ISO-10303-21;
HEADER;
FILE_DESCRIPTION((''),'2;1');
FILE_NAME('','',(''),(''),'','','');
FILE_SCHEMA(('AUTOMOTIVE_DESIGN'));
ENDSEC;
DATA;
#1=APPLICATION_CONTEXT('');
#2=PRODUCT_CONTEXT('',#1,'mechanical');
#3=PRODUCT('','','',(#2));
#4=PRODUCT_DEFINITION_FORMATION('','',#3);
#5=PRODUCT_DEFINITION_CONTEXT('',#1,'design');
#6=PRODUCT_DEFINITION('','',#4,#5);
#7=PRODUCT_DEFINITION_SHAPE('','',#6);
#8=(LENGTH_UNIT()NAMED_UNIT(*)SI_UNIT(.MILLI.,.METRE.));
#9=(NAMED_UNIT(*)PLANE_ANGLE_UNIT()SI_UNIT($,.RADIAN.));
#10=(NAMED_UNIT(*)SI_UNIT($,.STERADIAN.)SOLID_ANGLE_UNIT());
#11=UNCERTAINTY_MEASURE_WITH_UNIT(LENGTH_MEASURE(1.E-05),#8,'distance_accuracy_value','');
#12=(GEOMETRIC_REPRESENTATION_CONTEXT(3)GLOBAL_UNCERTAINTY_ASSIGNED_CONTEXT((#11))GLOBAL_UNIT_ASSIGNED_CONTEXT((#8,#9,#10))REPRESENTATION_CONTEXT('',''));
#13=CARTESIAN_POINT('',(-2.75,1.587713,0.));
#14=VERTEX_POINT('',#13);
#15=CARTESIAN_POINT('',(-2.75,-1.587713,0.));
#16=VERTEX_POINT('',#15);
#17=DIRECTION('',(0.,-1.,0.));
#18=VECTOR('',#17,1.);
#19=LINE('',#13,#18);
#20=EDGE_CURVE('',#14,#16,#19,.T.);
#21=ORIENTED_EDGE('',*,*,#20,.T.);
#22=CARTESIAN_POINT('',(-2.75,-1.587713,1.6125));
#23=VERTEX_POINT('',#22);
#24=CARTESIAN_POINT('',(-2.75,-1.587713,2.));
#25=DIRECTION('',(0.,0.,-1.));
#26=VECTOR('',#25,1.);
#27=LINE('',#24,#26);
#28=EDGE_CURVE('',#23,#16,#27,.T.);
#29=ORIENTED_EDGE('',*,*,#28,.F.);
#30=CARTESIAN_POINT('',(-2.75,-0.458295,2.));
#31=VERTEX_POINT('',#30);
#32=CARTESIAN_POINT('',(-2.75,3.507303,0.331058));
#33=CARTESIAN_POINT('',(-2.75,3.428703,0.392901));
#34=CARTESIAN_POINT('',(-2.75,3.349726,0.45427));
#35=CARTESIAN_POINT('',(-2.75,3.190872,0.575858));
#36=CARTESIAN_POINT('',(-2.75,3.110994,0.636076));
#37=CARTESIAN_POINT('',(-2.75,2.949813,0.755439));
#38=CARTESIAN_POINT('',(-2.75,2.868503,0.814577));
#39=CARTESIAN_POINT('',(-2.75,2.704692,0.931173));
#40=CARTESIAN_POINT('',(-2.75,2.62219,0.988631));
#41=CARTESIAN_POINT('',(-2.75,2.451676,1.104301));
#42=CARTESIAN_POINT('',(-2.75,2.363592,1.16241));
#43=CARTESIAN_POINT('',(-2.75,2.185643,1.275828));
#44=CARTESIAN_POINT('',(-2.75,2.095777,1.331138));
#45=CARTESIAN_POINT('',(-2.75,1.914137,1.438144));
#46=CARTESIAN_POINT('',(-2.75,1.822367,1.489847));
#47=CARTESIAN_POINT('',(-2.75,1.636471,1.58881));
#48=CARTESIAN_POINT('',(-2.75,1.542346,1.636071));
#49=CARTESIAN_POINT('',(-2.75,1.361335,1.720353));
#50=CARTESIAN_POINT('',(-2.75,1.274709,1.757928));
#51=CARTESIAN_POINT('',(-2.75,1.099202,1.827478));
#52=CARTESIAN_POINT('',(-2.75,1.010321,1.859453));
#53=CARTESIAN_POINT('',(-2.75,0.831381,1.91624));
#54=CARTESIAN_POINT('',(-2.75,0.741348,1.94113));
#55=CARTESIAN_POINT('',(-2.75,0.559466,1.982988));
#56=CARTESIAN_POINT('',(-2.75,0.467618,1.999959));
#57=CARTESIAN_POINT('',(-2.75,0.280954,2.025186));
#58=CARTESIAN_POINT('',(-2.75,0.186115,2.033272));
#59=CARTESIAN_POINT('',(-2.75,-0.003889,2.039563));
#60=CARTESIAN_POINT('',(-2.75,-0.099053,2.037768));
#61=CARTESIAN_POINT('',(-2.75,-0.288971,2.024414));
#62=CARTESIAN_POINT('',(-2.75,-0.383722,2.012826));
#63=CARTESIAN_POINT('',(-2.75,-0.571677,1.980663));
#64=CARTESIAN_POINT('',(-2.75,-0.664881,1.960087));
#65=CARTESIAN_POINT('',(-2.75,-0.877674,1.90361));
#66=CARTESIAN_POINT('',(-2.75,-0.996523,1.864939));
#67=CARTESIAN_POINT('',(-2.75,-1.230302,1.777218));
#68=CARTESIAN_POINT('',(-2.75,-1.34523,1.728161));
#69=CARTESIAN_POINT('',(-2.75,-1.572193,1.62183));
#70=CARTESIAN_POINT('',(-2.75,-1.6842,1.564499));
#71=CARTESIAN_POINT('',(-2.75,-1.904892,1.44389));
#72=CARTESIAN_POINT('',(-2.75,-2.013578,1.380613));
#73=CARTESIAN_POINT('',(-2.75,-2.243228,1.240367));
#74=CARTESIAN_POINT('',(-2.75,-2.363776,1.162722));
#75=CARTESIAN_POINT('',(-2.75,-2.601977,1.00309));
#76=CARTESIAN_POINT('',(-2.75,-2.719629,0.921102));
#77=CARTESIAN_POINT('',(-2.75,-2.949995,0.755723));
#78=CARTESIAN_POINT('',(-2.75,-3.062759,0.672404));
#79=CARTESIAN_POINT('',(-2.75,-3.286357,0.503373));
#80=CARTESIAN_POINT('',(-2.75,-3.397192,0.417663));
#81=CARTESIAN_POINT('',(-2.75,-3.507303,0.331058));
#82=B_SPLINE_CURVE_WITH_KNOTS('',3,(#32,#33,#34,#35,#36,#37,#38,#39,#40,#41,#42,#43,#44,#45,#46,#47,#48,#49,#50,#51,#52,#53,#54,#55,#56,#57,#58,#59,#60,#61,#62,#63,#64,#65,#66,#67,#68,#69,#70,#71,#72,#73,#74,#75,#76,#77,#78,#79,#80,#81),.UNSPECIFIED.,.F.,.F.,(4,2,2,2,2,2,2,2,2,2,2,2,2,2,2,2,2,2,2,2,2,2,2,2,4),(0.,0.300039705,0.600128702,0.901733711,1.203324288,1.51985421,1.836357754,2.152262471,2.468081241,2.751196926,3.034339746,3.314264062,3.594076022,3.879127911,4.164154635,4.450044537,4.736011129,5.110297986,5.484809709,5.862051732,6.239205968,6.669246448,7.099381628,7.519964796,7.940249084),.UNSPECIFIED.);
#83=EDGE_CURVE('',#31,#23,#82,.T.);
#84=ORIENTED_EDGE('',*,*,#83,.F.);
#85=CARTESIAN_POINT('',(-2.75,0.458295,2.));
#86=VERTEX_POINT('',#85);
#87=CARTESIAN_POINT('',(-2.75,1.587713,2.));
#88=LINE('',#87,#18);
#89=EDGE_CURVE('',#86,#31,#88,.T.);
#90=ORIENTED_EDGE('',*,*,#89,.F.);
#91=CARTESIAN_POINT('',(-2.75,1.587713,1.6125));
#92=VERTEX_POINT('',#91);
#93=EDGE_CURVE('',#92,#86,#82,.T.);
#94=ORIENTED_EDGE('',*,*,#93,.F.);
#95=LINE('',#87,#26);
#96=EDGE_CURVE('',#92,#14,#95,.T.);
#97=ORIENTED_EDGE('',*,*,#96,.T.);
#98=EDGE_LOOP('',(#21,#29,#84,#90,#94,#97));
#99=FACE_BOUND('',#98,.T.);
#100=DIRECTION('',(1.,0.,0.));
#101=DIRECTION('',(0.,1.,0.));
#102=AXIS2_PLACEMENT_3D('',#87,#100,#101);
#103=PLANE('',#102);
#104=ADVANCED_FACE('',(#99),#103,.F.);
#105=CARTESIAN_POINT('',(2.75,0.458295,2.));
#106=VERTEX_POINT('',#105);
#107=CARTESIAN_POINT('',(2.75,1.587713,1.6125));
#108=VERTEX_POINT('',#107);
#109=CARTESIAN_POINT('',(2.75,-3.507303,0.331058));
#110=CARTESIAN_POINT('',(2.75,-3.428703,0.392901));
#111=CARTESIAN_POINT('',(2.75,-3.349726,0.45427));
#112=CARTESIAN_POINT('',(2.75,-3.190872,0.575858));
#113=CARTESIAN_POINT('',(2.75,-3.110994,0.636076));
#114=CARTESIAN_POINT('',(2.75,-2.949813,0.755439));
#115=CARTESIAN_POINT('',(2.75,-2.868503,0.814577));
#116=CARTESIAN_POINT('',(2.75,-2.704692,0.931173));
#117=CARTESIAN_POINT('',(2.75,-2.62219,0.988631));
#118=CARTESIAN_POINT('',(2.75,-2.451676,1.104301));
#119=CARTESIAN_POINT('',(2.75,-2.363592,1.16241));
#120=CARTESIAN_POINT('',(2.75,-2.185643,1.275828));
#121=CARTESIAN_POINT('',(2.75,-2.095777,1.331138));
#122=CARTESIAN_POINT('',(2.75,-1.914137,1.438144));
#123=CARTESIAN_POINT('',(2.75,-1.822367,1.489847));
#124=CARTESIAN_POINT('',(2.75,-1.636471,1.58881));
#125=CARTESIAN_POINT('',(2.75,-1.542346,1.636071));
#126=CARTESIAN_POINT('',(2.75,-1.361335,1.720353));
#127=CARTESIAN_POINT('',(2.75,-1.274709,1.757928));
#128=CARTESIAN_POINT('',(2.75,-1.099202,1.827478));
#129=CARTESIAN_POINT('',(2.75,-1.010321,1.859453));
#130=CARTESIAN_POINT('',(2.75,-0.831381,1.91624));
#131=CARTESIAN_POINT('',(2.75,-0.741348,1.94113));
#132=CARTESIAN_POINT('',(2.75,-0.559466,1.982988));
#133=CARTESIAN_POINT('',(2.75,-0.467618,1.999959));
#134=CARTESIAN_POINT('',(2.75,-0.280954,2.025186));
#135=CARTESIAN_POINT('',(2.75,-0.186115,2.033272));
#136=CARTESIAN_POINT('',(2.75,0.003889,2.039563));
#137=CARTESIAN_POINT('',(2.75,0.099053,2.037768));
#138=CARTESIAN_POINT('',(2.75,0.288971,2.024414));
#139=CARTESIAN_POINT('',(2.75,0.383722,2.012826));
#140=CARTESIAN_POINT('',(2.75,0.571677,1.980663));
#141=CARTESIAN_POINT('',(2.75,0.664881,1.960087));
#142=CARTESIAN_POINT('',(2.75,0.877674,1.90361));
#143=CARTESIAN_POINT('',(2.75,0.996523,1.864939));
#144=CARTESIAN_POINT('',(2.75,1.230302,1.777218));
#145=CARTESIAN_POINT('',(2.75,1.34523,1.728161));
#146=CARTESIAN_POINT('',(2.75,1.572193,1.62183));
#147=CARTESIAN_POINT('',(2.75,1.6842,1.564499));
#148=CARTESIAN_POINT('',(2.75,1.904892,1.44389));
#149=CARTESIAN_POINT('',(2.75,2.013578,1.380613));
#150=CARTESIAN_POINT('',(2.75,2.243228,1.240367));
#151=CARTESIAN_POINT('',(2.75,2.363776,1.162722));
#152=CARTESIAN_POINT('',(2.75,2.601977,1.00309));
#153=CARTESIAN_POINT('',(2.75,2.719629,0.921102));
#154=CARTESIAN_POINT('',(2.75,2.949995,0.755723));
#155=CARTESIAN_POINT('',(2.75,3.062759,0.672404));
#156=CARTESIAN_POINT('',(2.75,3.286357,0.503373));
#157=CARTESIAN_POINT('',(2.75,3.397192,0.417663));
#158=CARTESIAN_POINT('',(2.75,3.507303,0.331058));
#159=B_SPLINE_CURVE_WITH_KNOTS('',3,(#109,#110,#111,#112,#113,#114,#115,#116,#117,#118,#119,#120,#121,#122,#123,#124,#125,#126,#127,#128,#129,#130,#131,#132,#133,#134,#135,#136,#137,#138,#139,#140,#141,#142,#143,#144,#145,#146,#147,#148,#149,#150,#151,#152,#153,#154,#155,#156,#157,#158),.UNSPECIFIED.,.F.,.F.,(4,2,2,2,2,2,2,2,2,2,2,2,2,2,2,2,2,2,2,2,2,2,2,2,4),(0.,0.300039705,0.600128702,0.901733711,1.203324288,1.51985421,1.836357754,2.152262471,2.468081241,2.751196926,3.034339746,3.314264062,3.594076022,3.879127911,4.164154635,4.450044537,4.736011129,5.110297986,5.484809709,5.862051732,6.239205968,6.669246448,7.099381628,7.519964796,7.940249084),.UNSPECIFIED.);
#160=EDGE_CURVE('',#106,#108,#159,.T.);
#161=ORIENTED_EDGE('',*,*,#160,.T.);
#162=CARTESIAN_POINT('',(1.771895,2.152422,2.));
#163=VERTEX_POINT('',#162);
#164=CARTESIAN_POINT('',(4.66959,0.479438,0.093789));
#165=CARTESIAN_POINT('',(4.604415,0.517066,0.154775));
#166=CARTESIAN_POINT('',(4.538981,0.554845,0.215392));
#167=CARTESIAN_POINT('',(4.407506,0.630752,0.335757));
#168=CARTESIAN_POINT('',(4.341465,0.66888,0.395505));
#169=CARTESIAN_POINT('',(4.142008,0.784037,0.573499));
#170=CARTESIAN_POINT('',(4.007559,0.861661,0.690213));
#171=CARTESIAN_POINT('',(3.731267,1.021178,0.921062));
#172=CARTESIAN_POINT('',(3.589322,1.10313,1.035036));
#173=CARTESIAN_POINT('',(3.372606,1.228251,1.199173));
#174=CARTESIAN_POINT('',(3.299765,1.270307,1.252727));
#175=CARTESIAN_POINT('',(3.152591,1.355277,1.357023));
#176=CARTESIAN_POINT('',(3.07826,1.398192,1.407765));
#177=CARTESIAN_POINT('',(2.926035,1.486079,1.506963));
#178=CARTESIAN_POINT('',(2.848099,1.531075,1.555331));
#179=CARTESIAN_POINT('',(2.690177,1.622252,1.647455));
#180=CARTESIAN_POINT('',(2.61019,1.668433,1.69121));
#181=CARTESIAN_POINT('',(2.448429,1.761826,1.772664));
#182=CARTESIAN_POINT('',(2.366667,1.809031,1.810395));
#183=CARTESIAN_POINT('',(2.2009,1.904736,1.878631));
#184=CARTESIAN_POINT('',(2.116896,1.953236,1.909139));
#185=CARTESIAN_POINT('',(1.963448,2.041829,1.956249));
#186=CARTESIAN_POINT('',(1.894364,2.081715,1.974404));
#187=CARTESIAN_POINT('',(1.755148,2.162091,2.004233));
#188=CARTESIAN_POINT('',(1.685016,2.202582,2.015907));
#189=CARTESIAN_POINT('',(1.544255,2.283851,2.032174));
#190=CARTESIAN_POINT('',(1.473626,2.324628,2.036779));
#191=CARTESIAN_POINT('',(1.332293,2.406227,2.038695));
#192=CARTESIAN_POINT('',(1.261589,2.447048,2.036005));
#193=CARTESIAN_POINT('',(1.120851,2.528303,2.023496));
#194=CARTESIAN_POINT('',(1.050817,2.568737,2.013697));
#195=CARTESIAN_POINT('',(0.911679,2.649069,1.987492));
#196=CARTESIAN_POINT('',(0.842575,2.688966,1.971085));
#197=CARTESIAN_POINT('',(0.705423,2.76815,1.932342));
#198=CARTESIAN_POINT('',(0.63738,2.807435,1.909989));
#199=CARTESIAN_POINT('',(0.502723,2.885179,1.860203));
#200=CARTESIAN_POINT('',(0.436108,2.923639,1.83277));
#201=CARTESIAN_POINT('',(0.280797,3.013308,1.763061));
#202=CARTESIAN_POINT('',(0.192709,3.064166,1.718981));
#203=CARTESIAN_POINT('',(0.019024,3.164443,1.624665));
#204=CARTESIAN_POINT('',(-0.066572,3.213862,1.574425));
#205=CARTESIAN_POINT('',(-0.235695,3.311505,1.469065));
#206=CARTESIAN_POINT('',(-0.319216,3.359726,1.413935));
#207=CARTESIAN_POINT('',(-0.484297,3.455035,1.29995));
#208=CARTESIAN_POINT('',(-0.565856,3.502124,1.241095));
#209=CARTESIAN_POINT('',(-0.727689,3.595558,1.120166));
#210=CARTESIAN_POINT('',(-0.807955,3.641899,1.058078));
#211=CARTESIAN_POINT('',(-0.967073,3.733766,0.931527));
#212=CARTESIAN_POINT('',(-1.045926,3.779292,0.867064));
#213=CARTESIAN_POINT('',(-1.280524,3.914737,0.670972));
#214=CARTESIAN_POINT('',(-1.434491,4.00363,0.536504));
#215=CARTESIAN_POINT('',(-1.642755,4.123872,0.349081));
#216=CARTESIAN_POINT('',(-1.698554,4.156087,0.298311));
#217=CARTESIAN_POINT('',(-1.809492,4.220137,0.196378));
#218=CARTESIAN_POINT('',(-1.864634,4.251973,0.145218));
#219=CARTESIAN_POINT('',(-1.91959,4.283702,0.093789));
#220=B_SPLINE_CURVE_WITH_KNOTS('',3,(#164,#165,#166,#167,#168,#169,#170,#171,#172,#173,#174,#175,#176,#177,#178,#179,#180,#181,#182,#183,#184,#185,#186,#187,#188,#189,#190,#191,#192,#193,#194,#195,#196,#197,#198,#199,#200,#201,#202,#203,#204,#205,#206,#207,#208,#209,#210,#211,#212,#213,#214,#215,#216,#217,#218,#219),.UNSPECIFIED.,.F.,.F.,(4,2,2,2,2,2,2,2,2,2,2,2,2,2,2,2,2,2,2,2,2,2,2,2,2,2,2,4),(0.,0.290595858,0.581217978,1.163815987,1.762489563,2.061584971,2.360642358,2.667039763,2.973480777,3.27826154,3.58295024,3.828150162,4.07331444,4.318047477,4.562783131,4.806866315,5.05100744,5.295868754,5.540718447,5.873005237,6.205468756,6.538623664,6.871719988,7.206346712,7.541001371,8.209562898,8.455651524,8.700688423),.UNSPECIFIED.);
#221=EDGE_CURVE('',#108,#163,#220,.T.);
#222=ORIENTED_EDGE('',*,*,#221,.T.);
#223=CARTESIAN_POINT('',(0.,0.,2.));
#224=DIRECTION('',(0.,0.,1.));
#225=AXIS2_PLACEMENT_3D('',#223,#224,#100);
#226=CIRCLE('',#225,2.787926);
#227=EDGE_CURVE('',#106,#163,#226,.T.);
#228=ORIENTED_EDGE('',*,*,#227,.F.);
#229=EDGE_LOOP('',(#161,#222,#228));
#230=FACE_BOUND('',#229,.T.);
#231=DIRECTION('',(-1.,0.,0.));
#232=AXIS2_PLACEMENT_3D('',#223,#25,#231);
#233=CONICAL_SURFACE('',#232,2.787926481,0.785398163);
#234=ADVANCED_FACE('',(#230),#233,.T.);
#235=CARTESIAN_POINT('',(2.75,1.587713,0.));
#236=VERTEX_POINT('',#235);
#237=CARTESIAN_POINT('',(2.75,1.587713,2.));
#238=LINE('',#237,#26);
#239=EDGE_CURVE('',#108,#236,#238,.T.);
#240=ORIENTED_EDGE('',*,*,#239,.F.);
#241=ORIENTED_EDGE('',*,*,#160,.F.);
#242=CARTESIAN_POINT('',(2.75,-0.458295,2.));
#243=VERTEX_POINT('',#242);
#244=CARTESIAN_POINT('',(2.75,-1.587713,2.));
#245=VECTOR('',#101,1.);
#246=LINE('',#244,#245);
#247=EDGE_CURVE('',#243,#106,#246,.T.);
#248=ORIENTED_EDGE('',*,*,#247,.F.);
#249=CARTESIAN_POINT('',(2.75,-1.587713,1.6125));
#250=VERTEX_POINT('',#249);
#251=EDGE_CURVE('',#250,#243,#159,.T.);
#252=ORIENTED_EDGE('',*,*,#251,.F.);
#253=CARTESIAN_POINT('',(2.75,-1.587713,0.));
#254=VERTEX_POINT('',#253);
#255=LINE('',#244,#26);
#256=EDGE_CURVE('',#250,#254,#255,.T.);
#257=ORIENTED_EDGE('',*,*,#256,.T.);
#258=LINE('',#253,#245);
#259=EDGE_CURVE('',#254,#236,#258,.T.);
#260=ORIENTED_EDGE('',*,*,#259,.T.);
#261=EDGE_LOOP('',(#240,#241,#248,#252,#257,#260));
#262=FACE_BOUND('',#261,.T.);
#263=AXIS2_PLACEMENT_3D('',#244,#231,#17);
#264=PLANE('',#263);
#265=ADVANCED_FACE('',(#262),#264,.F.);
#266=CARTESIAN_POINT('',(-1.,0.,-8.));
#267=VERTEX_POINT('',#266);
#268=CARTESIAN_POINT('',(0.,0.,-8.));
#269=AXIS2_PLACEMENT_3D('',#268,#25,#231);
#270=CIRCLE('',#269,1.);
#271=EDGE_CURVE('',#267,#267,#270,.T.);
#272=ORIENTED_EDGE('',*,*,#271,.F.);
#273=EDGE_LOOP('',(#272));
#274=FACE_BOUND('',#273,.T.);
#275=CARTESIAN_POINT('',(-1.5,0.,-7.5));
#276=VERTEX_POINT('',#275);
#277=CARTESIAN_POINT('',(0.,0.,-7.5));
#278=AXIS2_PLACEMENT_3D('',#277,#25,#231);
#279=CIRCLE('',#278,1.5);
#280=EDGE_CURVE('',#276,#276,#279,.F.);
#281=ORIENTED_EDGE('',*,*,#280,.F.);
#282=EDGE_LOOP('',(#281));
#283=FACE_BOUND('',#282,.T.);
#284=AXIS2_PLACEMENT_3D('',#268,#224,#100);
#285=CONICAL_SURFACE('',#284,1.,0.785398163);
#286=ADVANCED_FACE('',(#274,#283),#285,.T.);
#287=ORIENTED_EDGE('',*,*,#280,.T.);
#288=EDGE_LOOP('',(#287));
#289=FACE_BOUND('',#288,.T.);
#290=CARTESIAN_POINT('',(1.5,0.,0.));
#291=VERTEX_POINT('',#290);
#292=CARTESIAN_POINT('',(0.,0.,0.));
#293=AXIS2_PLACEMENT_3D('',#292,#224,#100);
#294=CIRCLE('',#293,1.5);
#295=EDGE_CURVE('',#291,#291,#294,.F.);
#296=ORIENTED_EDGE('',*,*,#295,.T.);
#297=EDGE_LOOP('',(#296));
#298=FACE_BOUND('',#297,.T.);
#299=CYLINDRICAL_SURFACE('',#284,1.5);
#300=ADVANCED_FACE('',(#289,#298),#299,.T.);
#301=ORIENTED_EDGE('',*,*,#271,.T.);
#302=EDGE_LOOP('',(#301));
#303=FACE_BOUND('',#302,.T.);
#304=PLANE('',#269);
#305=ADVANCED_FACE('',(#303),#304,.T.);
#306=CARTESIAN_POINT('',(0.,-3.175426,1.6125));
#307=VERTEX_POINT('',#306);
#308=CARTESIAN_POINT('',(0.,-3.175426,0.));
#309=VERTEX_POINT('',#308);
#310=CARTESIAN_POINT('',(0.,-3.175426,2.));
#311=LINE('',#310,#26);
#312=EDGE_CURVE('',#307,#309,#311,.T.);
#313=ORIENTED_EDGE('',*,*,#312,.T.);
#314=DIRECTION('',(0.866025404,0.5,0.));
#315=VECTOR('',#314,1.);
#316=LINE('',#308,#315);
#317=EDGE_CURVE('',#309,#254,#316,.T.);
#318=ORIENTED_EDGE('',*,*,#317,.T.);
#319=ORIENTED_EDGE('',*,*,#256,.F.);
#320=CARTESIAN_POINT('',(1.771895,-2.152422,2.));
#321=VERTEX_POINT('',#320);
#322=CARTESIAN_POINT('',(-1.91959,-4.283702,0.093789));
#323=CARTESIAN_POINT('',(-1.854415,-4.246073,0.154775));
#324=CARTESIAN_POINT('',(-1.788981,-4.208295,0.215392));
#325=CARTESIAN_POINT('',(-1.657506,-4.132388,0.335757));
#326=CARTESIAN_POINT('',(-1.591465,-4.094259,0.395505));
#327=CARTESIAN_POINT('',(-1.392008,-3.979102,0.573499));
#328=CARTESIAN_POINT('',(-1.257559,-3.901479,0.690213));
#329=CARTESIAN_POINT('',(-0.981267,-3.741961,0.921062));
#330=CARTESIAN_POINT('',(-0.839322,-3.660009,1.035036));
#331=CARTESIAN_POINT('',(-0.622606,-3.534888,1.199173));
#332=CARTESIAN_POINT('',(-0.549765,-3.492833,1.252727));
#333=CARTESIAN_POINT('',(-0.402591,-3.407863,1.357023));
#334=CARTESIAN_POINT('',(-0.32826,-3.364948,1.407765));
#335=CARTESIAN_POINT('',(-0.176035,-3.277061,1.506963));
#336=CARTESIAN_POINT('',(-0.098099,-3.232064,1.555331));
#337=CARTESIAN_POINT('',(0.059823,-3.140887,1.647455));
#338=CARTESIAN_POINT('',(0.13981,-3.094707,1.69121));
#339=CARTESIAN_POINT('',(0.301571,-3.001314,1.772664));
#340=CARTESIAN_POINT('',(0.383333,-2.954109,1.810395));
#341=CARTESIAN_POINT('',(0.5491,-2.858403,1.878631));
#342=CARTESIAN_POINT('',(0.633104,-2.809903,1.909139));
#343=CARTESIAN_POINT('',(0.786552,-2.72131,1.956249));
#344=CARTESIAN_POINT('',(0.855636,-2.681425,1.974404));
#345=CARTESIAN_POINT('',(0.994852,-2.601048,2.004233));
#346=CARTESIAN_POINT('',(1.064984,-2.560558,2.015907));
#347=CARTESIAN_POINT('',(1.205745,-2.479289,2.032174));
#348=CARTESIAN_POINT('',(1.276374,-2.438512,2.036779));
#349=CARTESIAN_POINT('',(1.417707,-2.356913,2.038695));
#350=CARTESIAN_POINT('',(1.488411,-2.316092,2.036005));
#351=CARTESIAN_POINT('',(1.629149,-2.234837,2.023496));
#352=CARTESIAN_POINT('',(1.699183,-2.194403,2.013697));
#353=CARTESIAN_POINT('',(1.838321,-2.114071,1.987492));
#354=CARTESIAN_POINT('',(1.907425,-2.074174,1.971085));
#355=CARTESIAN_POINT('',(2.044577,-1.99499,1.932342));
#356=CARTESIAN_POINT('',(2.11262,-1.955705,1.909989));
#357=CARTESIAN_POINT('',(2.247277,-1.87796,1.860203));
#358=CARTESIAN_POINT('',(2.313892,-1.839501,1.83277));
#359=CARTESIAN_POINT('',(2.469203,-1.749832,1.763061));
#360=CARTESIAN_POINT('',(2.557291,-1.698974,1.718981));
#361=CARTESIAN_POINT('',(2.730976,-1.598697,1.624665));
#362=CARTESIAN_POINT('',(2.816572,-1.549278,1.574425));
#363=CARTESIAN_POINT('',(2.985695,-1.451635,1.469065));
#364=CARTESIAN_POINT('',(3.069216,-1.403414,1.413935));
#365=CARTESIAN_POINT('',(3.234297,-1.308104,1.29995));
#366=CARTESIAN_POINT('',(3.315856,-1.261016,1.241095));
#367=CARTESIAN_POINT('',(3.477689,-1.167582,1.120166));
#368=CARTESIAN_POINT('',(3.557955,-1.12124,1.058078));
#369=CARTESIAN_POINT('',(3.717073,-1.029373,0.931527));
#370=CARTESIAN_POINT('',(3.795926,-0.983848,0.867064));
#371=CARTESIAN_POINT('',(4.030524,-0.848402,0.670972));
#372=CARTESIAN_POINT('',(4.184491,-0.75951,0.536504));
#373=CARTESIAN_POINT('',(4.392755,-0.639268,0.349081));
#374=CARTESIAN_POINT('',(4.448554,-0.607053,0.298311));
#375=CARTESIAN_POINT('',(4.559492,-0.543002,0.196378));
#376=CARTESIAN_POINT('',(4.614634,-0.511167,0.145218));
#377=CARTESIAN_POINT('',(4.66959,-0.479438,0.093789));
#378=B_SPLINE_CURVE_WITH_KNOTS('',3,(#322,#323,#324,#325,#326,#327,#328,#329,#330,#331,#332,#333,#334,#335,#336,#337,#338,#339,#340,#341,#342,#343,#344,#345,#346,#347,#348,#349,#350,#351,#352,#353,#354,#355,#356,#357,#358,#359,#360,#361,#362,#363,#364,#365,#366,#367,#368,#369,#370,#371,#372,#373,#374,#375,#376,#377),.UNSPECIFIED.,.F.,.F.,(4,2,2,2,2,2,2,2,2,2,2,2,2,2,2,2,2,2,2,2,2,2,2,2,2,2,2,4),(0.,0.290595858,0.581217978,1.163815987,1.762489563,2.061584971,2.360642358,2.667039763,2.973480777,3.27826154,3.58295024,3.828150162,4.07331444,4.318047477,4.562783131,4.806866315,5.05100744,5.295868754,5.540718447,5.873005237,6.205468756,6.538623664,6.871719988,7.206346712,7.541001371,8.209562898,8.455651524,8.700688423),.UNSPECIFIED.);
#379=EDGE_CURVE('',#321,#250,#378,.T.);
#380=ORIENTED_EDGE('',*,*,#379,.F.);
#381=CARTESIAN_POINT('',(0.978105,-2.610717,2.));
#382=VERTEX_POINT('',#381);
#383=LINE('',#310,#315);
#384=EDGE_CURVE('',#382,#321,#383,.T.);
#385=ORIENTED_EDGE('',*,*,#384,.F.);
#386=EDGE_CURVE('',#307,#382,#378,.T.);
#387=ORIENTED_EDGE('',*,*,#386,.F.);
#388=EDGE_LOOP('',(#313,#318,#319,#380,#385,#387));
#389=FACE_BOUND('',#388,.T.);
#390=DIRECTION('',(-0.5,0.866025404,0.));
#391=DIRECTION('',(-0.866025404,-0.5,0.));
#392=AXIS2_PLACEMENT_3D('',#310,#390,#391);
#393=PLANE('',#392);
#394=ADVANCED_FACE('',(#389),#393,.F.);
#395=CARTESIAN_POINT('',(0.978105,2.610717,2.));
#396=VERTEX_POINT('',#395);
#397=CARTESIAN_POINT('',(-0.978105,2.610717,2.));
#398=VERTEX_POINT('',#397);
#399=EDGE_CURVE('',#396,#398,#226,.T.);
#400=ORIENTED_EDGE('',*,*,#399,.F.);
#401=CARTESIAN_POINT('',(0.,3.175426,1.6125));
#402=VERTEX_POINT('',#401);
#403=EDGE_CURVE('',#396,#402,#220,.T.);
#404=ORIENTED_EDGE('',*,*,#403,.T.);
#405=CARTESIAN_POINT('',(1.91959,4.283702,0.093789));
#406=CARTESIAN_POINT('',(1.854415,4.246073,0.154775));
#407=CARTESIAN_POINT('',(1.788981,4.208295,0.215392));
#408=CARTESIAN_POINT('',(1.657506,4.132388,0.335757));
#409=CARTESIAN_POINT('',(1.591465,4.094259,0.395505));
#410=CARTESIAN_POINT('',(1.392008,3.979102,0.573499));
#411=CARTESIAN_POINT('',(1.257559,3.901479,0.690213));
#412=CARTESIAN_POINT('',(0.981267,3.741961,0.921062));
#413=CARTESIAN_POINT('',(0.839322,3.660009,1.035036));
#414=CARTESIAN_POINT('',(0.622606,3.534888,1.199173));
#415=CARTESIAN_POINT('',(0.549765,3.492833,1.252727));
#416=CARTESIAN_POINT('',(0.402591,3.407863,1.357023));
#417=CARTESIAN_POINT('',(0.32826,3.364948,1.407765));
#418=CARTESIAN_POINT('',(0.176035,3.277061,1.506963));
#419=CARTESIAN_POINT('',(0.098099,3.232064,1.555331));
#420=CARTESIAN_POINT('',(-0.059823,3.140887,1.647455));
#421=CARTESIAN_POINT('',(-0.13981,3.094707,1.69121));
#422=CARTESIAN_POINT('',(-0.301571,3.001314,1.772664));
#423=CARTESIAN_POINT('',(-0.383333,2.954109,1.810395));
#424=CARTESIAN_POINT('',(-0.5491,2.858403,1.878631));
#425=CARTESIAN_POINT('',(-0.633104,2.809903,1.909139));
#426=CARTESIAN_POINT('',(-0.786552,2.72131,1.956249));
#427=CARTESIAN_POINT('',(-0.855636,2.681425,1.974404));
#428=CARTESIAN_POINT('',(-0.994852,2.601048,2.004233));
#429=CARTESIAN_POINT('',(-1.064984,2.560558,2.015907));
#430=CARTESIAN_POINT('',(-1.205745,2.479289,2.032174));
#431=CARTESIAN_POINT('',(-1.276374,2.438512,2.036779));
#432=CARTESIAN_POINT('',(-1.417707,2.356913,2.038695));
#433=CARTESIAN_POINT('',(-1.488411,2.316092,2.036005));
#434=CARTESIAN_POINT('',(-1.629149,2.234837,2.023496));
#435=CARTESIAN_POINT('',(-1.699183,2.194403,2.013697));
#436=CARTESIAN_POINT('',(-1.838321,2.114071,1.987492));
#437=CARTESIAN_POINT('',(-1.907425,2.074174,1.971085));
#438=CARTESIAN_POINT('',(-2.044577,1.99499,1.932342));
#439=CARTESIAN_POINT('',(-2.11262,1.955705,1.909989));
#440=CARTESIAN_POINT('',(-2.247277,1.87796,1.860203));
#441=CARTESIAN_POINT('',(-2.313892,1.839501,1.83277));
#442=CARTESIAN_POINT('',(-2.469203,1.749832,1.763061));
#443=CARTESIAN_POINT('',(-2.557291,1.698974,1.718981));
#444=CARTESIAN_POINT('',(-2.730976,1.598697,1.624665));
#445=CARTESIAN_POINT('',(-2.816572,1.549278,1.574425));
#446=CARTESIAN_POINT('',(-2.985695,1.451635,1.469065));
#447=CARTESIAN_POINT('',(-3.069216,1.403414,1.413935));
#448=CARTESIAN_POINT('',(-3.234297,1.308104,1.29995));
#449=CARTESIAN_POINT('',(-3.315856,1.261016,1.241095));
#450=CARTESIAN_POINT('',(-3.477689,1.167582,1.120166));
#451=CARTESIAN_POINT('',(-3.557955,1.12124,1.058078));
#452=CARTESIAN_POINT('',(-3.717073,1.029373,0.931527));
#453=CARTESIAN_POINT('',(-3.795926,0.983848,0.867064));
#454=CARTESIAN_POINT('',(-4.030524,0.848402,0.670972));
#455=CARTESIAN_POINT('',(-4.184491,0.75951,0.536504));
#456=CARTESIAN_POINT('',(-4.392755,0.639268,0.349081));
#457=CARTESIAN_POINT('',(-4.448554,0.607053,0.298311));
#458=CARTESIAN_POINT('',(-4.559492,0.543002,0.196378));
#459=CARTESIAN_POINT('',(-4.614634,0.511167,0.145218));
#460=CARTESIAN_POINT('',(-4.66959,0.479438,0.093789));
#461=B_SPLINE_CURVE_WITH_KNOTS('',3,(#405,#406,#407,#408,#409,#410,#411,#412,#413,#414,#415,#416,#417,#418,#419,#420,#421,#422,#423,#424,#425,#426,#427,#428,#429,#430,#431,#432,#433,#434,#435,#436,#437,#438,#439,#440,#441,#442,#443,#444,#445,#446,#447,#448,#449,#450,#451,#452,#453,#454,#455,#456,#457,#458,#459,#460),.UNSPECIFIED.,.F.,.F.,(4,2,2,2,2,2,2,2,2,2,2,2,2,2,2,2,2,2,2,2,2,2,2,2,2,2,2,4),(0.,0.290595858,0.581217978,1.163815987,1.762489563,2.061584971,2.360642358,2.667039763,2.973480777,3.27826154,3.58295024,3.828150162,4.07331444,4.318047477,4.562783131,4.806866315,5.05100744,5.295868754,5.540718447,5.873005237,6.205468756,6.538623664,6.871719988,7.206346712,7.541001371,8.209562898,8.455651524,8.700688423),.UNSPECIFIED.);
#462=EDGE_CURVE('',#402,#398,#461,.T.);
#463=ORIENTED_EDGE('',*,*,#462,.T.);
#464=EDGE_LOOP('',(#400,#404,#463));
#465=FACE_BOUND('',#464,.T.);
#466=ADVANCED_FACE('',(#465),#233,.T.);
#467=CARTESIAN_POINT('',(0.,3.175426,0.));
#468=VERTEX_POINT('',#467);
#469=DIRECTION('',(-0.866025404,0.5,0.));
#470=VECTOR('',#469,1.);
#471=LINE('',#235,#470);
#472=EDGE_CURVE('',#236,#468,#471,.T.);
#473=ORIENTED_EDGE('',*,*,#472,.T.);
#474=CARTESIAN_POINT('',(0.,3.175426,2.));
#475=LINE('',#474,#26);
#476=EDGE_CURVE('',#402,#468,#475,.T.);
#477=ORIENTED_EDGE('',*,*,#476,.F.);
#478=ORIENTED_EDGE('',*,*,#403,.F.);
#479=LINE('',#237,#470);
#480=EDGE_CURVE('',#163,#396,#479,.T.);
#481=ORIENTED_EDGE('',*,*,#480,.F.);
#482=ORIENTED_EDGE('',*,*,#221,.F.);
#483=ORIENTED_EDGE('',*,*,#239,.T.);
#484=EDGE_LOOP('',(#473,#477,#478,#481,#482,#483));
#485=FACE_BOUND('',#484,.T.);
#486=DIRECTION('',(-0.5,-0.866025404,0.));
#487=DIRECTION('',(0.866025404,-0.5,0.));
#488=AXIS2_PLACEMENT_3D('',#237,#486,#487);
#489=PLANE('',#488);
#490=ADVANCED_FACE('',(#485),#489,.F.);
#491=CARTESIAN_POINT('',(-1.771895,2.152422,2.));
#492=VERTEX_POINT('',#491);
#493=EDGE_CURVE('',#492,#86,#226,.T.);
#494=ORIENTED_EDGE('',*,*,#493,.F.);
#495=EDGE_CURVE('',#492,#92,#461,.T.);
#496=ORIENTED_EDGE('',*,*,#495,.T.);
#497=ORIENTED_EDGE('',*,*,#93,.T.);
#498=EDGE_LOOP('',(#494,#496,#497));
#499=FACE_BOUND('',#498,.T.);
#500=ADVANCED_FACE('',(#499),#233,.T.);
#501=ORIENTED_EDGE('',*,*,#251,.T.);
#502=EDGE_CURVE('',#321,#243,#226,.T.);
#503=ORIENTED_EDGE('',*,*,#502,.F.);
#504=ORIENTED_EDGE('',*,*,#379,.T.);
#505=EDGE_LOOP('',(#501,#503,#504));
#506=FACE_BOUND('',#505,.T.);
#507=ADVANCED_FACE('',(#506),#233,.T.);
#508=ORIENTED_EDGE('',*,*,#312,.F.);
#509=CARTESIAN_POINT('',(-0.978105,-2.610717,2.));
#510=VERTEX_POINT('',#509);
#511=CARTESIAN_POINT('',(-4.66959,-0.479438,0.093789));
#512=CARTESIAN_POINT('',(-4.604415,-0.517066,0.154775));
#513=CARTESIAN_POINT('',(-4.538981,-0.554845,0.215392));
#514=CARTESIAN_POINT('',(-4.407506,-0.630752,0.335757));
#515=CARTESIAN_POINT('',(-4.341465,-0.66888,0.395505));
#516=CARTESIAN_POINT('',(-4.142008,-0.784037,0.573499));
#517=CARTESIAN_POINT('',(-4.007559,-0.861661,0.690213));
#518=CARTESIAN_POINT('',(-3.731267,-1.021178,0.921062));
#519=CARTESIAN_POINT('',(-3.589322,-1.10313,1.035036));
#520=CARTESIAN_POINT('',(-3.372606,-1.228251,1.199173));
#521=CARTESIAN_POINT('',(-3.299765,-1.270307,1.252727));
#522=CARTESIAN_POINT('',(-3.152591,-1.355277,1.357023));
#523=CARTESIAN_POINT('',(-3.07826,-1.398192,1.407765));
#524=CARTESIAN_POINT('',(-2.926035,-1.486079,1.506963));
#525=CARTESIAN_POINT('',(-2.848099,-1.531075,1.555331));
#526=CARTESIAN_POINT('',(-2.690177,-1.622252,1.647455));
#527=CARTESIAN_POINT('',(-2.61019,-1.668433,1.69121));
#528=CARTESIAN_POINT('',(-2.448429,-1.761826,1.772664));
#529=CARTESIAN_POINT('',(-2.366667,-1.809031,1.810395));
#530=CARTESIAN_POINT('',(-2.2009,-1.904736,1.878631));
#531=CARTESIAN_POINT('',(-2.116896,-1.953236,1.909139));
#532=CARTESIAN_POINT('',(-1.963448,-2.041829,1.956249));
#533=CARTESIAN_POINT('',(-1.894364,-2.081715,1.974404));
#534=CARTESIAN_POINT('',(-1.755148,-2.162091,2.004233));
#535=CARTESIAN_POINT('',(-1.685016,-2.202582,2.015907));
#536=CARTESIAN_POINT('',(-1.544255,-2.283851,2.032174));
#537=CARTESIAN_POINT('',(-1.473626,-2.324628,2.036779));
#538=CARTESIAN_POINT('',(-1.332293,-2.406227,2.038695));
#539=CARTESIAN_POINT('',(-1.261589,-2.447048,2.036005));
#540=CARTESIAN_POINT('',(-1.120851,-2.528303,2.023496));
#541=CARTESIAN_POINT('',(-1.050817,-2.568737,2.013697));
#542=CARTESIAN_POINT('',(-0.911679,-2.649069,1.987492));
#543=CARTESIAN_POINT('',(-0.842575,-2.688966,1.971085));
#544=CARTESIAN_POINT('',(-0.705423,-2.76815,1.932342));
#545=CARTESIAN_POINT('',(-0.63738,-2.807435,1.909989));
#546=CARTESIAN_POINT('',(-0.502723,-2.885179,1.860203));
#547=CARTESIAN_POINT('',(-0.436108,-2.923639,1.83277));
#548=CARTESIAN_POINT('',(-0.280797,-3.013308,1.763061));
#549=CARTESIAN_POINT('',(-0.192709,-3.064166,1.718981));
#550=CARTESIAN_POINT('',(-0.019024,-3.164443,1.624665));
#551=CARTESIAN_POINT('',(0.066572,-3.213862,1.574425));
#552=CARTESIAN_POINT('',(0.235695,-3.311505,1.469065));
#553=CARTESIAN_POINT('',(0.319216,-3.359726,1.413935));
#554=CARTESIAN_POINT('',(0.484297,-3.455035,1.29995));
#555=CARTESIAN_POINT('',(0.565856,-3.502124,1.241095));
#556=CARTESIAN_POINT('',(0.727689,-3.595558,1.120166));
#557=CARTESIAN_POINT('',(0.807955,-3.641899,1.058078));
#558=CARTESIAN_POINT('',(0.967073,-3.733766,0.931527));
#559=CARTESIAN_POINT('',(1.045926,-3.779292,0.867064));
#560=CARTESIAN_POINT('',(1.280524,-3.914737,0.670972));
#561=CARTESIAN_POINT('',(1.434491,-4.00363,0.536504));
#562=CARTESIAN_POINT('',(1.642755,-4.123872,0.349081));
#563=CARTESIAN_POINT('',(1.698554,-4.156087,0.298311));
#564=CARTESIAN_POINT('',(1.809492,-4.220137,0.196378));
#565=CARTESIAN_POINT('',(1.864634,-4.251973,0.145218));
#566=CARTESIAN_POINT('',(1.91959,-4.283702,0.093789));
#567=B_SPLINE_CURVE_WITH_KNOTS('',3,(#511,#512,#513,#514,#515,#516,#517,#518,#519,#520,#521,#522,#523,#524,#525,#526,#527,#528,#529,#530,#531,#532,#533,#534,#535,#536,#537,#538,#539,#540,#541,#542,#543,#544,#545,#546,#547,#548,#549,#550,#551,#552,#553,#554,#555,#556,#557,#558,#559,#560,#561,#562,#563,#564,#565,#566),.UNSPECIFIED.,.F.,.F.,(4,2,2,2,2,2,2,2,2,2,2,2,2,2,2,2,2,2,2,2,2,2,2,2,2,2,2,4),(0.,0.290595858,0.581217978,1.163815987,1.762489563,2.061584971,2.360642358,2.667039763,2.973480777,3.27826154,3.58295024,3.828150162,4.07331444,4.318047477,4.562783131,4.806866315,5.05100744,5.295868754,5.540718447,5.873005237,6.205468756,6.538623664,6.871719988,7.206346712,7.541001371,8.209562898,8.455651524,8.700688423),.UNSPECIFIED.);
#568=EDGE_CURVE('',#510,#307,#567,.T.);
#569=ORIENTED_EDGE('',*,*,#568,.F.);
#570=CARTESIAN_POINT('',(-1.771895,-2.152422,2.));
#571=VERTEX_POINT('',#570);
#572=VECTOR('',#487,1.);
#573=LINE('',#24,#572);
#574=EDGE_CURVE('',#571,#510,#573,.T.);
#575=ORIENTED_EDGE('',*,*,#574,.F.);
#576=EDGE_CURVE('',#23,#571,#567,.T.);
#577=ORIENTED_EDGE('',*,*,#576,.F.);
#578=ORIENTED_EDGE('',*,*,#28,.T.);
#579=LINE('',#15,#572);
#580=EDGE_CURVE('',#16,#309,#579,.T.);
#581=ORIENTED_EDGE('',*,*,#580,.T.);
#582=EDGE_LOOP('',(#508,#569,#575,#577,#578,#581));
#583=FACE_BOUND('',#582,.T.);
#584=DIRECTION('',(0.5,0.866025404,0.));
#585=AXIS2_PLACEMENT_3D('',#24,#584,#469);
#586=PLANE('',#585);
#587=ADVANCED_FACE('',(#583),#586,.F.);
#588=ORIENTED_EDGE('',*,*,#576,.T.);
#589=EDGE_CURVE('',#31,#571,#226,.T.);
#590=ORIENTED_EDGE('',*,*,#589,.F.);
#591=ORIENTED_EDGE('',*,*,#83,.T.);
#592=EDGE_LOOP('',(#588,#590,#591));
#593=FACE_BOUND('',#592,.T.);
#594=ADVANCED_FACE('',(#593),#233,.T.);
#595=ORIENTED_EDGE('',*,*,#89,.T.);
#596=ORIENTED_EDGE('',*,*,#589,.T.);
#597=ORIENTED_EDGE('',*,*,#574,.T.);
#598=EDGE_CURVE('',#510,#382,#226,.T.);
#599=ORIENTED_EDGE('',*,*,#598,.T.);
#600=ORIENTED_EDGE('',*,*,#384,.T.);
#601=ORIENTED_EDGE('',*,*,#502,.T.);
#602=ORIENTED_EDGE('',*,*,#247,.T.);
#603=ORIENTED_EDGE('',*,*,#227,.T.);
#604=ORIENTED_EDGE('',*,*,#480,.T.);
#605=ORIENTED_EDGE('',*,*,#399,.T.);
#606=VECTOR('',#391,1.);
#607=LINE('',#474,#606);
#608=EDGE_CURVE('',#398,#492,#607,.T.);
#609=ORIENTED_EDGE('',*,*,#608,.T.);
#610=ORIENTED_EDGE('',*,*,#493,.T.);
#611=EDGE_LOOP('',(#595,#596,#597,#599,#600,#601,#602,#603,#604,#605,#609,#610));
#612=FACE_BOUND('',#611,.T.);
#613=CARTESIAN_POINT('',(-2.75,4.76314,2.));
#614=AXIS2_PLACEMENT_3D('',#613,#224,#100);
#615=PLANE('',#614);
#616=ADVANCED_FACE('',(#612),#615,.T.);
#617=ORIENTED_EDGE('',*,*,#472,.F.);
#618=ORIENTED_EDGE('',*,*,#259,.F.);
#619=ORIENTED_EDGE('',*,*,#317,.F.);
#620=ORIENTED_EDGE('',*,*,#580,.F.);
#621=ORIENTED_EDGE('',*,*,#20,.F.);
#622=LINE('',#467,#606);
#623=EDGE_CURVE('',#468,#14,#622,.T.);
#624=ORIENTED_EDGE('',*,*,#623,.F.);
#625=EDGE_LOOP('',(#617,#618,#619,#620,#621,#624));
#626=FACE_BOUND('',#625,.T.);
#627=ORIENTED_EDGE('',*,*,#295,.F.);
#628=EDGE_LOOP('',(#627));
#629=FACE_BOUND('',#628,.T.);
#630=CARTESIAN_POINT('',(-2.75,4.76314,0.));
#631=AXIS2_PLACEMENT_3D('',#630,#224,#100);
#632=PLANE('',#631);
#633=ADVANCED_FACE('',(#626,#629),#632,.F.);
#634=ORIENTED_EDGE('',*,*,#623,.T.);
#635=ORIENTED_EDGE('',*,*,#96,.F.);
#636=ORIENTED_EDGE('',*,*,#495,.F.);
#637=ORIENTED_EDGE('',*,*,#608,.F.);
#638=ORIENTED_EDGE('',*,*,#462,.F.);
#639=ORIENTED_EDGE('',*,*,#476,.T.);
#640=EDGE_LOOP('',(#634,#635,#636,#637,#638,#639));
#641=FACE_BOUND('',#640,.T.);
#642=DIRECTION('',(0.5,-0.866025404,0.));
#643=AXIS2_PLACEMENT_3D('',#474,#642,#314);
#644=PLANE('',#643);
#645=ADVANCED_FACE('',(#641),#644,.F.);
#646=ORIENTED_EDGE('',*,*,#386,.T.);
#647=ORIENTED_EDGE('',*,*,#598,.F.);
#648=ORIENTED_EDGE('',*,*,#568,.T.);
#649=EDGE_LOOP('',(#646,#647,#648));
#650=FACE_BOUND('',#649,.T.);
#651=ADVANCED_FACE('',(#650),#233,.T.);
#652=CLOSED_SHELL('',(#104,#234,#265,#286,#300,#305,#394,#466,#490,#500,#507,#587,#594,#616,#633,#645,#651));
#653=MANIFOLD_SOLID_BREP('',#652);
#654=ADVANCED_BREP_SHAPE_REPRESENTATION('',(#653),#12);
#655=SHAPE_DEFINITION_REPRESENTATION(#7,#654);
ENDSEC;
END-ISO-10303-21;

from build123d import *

# Parameters (mm, degrees)
EXTRUDE_1_DEPTH = 2
SKETCH_2_R      = 1.5
EXTRUDE_2_DEPTH = 8
CHAMFER_1_SIZE  = 0.5


with BuildPart() as part:
    # Эскиз1 → Вытянуть1 (new body)
    with BuildSketch(Plane.XY):
        Polygon((0, 3.175426481), (-2.75, 1.58771324), (-2.75, -1.58771324), (0, -3.175426481), (2.75, -1.58771324), (2.75, 1.58771324), align=None)
    extrude(amount=EXTRUDE_1_DEPTH)

    # Эскиз2 → Вытянуть2 (add)
    with BuildSketch(Plane(origin=(0, 0, 0), x_dir=(-1, 0, 0), z_dir=(0, 0, -1))):
        with Locations(Location((0, 0, 0), (0, 0, 180))):
            Circle(SKETCH_2_R)
    extrude(amount=EXTRUDE_2_DEPTH)

    # Эскиз15 → Вырез-Повернуть1 (revolve, cut)
    with BuildSketch(Plane(origin=(0, 0, 0), x_dir=(0, 0, -1), z_dir=(1, 0, 0))):
        Polygon((-2, 3.175426481), (-2, 2.787926481), (-1.6125, 3.175426481), align=None)
    revolve(axis=Axis((0, 0, 4.465296569), (0, 0, -1)), mode=Mode.SUBTRACT)

    # Фаска1
    chamfer_1_edges = [part.edges().sort_by_distance(p)[0] for p in [
        (-1.5, 0, -8),
    ]]
    chamfer(chamfer_1_edges, length=CHAMFER_1_SIZE)


solid = part.part
